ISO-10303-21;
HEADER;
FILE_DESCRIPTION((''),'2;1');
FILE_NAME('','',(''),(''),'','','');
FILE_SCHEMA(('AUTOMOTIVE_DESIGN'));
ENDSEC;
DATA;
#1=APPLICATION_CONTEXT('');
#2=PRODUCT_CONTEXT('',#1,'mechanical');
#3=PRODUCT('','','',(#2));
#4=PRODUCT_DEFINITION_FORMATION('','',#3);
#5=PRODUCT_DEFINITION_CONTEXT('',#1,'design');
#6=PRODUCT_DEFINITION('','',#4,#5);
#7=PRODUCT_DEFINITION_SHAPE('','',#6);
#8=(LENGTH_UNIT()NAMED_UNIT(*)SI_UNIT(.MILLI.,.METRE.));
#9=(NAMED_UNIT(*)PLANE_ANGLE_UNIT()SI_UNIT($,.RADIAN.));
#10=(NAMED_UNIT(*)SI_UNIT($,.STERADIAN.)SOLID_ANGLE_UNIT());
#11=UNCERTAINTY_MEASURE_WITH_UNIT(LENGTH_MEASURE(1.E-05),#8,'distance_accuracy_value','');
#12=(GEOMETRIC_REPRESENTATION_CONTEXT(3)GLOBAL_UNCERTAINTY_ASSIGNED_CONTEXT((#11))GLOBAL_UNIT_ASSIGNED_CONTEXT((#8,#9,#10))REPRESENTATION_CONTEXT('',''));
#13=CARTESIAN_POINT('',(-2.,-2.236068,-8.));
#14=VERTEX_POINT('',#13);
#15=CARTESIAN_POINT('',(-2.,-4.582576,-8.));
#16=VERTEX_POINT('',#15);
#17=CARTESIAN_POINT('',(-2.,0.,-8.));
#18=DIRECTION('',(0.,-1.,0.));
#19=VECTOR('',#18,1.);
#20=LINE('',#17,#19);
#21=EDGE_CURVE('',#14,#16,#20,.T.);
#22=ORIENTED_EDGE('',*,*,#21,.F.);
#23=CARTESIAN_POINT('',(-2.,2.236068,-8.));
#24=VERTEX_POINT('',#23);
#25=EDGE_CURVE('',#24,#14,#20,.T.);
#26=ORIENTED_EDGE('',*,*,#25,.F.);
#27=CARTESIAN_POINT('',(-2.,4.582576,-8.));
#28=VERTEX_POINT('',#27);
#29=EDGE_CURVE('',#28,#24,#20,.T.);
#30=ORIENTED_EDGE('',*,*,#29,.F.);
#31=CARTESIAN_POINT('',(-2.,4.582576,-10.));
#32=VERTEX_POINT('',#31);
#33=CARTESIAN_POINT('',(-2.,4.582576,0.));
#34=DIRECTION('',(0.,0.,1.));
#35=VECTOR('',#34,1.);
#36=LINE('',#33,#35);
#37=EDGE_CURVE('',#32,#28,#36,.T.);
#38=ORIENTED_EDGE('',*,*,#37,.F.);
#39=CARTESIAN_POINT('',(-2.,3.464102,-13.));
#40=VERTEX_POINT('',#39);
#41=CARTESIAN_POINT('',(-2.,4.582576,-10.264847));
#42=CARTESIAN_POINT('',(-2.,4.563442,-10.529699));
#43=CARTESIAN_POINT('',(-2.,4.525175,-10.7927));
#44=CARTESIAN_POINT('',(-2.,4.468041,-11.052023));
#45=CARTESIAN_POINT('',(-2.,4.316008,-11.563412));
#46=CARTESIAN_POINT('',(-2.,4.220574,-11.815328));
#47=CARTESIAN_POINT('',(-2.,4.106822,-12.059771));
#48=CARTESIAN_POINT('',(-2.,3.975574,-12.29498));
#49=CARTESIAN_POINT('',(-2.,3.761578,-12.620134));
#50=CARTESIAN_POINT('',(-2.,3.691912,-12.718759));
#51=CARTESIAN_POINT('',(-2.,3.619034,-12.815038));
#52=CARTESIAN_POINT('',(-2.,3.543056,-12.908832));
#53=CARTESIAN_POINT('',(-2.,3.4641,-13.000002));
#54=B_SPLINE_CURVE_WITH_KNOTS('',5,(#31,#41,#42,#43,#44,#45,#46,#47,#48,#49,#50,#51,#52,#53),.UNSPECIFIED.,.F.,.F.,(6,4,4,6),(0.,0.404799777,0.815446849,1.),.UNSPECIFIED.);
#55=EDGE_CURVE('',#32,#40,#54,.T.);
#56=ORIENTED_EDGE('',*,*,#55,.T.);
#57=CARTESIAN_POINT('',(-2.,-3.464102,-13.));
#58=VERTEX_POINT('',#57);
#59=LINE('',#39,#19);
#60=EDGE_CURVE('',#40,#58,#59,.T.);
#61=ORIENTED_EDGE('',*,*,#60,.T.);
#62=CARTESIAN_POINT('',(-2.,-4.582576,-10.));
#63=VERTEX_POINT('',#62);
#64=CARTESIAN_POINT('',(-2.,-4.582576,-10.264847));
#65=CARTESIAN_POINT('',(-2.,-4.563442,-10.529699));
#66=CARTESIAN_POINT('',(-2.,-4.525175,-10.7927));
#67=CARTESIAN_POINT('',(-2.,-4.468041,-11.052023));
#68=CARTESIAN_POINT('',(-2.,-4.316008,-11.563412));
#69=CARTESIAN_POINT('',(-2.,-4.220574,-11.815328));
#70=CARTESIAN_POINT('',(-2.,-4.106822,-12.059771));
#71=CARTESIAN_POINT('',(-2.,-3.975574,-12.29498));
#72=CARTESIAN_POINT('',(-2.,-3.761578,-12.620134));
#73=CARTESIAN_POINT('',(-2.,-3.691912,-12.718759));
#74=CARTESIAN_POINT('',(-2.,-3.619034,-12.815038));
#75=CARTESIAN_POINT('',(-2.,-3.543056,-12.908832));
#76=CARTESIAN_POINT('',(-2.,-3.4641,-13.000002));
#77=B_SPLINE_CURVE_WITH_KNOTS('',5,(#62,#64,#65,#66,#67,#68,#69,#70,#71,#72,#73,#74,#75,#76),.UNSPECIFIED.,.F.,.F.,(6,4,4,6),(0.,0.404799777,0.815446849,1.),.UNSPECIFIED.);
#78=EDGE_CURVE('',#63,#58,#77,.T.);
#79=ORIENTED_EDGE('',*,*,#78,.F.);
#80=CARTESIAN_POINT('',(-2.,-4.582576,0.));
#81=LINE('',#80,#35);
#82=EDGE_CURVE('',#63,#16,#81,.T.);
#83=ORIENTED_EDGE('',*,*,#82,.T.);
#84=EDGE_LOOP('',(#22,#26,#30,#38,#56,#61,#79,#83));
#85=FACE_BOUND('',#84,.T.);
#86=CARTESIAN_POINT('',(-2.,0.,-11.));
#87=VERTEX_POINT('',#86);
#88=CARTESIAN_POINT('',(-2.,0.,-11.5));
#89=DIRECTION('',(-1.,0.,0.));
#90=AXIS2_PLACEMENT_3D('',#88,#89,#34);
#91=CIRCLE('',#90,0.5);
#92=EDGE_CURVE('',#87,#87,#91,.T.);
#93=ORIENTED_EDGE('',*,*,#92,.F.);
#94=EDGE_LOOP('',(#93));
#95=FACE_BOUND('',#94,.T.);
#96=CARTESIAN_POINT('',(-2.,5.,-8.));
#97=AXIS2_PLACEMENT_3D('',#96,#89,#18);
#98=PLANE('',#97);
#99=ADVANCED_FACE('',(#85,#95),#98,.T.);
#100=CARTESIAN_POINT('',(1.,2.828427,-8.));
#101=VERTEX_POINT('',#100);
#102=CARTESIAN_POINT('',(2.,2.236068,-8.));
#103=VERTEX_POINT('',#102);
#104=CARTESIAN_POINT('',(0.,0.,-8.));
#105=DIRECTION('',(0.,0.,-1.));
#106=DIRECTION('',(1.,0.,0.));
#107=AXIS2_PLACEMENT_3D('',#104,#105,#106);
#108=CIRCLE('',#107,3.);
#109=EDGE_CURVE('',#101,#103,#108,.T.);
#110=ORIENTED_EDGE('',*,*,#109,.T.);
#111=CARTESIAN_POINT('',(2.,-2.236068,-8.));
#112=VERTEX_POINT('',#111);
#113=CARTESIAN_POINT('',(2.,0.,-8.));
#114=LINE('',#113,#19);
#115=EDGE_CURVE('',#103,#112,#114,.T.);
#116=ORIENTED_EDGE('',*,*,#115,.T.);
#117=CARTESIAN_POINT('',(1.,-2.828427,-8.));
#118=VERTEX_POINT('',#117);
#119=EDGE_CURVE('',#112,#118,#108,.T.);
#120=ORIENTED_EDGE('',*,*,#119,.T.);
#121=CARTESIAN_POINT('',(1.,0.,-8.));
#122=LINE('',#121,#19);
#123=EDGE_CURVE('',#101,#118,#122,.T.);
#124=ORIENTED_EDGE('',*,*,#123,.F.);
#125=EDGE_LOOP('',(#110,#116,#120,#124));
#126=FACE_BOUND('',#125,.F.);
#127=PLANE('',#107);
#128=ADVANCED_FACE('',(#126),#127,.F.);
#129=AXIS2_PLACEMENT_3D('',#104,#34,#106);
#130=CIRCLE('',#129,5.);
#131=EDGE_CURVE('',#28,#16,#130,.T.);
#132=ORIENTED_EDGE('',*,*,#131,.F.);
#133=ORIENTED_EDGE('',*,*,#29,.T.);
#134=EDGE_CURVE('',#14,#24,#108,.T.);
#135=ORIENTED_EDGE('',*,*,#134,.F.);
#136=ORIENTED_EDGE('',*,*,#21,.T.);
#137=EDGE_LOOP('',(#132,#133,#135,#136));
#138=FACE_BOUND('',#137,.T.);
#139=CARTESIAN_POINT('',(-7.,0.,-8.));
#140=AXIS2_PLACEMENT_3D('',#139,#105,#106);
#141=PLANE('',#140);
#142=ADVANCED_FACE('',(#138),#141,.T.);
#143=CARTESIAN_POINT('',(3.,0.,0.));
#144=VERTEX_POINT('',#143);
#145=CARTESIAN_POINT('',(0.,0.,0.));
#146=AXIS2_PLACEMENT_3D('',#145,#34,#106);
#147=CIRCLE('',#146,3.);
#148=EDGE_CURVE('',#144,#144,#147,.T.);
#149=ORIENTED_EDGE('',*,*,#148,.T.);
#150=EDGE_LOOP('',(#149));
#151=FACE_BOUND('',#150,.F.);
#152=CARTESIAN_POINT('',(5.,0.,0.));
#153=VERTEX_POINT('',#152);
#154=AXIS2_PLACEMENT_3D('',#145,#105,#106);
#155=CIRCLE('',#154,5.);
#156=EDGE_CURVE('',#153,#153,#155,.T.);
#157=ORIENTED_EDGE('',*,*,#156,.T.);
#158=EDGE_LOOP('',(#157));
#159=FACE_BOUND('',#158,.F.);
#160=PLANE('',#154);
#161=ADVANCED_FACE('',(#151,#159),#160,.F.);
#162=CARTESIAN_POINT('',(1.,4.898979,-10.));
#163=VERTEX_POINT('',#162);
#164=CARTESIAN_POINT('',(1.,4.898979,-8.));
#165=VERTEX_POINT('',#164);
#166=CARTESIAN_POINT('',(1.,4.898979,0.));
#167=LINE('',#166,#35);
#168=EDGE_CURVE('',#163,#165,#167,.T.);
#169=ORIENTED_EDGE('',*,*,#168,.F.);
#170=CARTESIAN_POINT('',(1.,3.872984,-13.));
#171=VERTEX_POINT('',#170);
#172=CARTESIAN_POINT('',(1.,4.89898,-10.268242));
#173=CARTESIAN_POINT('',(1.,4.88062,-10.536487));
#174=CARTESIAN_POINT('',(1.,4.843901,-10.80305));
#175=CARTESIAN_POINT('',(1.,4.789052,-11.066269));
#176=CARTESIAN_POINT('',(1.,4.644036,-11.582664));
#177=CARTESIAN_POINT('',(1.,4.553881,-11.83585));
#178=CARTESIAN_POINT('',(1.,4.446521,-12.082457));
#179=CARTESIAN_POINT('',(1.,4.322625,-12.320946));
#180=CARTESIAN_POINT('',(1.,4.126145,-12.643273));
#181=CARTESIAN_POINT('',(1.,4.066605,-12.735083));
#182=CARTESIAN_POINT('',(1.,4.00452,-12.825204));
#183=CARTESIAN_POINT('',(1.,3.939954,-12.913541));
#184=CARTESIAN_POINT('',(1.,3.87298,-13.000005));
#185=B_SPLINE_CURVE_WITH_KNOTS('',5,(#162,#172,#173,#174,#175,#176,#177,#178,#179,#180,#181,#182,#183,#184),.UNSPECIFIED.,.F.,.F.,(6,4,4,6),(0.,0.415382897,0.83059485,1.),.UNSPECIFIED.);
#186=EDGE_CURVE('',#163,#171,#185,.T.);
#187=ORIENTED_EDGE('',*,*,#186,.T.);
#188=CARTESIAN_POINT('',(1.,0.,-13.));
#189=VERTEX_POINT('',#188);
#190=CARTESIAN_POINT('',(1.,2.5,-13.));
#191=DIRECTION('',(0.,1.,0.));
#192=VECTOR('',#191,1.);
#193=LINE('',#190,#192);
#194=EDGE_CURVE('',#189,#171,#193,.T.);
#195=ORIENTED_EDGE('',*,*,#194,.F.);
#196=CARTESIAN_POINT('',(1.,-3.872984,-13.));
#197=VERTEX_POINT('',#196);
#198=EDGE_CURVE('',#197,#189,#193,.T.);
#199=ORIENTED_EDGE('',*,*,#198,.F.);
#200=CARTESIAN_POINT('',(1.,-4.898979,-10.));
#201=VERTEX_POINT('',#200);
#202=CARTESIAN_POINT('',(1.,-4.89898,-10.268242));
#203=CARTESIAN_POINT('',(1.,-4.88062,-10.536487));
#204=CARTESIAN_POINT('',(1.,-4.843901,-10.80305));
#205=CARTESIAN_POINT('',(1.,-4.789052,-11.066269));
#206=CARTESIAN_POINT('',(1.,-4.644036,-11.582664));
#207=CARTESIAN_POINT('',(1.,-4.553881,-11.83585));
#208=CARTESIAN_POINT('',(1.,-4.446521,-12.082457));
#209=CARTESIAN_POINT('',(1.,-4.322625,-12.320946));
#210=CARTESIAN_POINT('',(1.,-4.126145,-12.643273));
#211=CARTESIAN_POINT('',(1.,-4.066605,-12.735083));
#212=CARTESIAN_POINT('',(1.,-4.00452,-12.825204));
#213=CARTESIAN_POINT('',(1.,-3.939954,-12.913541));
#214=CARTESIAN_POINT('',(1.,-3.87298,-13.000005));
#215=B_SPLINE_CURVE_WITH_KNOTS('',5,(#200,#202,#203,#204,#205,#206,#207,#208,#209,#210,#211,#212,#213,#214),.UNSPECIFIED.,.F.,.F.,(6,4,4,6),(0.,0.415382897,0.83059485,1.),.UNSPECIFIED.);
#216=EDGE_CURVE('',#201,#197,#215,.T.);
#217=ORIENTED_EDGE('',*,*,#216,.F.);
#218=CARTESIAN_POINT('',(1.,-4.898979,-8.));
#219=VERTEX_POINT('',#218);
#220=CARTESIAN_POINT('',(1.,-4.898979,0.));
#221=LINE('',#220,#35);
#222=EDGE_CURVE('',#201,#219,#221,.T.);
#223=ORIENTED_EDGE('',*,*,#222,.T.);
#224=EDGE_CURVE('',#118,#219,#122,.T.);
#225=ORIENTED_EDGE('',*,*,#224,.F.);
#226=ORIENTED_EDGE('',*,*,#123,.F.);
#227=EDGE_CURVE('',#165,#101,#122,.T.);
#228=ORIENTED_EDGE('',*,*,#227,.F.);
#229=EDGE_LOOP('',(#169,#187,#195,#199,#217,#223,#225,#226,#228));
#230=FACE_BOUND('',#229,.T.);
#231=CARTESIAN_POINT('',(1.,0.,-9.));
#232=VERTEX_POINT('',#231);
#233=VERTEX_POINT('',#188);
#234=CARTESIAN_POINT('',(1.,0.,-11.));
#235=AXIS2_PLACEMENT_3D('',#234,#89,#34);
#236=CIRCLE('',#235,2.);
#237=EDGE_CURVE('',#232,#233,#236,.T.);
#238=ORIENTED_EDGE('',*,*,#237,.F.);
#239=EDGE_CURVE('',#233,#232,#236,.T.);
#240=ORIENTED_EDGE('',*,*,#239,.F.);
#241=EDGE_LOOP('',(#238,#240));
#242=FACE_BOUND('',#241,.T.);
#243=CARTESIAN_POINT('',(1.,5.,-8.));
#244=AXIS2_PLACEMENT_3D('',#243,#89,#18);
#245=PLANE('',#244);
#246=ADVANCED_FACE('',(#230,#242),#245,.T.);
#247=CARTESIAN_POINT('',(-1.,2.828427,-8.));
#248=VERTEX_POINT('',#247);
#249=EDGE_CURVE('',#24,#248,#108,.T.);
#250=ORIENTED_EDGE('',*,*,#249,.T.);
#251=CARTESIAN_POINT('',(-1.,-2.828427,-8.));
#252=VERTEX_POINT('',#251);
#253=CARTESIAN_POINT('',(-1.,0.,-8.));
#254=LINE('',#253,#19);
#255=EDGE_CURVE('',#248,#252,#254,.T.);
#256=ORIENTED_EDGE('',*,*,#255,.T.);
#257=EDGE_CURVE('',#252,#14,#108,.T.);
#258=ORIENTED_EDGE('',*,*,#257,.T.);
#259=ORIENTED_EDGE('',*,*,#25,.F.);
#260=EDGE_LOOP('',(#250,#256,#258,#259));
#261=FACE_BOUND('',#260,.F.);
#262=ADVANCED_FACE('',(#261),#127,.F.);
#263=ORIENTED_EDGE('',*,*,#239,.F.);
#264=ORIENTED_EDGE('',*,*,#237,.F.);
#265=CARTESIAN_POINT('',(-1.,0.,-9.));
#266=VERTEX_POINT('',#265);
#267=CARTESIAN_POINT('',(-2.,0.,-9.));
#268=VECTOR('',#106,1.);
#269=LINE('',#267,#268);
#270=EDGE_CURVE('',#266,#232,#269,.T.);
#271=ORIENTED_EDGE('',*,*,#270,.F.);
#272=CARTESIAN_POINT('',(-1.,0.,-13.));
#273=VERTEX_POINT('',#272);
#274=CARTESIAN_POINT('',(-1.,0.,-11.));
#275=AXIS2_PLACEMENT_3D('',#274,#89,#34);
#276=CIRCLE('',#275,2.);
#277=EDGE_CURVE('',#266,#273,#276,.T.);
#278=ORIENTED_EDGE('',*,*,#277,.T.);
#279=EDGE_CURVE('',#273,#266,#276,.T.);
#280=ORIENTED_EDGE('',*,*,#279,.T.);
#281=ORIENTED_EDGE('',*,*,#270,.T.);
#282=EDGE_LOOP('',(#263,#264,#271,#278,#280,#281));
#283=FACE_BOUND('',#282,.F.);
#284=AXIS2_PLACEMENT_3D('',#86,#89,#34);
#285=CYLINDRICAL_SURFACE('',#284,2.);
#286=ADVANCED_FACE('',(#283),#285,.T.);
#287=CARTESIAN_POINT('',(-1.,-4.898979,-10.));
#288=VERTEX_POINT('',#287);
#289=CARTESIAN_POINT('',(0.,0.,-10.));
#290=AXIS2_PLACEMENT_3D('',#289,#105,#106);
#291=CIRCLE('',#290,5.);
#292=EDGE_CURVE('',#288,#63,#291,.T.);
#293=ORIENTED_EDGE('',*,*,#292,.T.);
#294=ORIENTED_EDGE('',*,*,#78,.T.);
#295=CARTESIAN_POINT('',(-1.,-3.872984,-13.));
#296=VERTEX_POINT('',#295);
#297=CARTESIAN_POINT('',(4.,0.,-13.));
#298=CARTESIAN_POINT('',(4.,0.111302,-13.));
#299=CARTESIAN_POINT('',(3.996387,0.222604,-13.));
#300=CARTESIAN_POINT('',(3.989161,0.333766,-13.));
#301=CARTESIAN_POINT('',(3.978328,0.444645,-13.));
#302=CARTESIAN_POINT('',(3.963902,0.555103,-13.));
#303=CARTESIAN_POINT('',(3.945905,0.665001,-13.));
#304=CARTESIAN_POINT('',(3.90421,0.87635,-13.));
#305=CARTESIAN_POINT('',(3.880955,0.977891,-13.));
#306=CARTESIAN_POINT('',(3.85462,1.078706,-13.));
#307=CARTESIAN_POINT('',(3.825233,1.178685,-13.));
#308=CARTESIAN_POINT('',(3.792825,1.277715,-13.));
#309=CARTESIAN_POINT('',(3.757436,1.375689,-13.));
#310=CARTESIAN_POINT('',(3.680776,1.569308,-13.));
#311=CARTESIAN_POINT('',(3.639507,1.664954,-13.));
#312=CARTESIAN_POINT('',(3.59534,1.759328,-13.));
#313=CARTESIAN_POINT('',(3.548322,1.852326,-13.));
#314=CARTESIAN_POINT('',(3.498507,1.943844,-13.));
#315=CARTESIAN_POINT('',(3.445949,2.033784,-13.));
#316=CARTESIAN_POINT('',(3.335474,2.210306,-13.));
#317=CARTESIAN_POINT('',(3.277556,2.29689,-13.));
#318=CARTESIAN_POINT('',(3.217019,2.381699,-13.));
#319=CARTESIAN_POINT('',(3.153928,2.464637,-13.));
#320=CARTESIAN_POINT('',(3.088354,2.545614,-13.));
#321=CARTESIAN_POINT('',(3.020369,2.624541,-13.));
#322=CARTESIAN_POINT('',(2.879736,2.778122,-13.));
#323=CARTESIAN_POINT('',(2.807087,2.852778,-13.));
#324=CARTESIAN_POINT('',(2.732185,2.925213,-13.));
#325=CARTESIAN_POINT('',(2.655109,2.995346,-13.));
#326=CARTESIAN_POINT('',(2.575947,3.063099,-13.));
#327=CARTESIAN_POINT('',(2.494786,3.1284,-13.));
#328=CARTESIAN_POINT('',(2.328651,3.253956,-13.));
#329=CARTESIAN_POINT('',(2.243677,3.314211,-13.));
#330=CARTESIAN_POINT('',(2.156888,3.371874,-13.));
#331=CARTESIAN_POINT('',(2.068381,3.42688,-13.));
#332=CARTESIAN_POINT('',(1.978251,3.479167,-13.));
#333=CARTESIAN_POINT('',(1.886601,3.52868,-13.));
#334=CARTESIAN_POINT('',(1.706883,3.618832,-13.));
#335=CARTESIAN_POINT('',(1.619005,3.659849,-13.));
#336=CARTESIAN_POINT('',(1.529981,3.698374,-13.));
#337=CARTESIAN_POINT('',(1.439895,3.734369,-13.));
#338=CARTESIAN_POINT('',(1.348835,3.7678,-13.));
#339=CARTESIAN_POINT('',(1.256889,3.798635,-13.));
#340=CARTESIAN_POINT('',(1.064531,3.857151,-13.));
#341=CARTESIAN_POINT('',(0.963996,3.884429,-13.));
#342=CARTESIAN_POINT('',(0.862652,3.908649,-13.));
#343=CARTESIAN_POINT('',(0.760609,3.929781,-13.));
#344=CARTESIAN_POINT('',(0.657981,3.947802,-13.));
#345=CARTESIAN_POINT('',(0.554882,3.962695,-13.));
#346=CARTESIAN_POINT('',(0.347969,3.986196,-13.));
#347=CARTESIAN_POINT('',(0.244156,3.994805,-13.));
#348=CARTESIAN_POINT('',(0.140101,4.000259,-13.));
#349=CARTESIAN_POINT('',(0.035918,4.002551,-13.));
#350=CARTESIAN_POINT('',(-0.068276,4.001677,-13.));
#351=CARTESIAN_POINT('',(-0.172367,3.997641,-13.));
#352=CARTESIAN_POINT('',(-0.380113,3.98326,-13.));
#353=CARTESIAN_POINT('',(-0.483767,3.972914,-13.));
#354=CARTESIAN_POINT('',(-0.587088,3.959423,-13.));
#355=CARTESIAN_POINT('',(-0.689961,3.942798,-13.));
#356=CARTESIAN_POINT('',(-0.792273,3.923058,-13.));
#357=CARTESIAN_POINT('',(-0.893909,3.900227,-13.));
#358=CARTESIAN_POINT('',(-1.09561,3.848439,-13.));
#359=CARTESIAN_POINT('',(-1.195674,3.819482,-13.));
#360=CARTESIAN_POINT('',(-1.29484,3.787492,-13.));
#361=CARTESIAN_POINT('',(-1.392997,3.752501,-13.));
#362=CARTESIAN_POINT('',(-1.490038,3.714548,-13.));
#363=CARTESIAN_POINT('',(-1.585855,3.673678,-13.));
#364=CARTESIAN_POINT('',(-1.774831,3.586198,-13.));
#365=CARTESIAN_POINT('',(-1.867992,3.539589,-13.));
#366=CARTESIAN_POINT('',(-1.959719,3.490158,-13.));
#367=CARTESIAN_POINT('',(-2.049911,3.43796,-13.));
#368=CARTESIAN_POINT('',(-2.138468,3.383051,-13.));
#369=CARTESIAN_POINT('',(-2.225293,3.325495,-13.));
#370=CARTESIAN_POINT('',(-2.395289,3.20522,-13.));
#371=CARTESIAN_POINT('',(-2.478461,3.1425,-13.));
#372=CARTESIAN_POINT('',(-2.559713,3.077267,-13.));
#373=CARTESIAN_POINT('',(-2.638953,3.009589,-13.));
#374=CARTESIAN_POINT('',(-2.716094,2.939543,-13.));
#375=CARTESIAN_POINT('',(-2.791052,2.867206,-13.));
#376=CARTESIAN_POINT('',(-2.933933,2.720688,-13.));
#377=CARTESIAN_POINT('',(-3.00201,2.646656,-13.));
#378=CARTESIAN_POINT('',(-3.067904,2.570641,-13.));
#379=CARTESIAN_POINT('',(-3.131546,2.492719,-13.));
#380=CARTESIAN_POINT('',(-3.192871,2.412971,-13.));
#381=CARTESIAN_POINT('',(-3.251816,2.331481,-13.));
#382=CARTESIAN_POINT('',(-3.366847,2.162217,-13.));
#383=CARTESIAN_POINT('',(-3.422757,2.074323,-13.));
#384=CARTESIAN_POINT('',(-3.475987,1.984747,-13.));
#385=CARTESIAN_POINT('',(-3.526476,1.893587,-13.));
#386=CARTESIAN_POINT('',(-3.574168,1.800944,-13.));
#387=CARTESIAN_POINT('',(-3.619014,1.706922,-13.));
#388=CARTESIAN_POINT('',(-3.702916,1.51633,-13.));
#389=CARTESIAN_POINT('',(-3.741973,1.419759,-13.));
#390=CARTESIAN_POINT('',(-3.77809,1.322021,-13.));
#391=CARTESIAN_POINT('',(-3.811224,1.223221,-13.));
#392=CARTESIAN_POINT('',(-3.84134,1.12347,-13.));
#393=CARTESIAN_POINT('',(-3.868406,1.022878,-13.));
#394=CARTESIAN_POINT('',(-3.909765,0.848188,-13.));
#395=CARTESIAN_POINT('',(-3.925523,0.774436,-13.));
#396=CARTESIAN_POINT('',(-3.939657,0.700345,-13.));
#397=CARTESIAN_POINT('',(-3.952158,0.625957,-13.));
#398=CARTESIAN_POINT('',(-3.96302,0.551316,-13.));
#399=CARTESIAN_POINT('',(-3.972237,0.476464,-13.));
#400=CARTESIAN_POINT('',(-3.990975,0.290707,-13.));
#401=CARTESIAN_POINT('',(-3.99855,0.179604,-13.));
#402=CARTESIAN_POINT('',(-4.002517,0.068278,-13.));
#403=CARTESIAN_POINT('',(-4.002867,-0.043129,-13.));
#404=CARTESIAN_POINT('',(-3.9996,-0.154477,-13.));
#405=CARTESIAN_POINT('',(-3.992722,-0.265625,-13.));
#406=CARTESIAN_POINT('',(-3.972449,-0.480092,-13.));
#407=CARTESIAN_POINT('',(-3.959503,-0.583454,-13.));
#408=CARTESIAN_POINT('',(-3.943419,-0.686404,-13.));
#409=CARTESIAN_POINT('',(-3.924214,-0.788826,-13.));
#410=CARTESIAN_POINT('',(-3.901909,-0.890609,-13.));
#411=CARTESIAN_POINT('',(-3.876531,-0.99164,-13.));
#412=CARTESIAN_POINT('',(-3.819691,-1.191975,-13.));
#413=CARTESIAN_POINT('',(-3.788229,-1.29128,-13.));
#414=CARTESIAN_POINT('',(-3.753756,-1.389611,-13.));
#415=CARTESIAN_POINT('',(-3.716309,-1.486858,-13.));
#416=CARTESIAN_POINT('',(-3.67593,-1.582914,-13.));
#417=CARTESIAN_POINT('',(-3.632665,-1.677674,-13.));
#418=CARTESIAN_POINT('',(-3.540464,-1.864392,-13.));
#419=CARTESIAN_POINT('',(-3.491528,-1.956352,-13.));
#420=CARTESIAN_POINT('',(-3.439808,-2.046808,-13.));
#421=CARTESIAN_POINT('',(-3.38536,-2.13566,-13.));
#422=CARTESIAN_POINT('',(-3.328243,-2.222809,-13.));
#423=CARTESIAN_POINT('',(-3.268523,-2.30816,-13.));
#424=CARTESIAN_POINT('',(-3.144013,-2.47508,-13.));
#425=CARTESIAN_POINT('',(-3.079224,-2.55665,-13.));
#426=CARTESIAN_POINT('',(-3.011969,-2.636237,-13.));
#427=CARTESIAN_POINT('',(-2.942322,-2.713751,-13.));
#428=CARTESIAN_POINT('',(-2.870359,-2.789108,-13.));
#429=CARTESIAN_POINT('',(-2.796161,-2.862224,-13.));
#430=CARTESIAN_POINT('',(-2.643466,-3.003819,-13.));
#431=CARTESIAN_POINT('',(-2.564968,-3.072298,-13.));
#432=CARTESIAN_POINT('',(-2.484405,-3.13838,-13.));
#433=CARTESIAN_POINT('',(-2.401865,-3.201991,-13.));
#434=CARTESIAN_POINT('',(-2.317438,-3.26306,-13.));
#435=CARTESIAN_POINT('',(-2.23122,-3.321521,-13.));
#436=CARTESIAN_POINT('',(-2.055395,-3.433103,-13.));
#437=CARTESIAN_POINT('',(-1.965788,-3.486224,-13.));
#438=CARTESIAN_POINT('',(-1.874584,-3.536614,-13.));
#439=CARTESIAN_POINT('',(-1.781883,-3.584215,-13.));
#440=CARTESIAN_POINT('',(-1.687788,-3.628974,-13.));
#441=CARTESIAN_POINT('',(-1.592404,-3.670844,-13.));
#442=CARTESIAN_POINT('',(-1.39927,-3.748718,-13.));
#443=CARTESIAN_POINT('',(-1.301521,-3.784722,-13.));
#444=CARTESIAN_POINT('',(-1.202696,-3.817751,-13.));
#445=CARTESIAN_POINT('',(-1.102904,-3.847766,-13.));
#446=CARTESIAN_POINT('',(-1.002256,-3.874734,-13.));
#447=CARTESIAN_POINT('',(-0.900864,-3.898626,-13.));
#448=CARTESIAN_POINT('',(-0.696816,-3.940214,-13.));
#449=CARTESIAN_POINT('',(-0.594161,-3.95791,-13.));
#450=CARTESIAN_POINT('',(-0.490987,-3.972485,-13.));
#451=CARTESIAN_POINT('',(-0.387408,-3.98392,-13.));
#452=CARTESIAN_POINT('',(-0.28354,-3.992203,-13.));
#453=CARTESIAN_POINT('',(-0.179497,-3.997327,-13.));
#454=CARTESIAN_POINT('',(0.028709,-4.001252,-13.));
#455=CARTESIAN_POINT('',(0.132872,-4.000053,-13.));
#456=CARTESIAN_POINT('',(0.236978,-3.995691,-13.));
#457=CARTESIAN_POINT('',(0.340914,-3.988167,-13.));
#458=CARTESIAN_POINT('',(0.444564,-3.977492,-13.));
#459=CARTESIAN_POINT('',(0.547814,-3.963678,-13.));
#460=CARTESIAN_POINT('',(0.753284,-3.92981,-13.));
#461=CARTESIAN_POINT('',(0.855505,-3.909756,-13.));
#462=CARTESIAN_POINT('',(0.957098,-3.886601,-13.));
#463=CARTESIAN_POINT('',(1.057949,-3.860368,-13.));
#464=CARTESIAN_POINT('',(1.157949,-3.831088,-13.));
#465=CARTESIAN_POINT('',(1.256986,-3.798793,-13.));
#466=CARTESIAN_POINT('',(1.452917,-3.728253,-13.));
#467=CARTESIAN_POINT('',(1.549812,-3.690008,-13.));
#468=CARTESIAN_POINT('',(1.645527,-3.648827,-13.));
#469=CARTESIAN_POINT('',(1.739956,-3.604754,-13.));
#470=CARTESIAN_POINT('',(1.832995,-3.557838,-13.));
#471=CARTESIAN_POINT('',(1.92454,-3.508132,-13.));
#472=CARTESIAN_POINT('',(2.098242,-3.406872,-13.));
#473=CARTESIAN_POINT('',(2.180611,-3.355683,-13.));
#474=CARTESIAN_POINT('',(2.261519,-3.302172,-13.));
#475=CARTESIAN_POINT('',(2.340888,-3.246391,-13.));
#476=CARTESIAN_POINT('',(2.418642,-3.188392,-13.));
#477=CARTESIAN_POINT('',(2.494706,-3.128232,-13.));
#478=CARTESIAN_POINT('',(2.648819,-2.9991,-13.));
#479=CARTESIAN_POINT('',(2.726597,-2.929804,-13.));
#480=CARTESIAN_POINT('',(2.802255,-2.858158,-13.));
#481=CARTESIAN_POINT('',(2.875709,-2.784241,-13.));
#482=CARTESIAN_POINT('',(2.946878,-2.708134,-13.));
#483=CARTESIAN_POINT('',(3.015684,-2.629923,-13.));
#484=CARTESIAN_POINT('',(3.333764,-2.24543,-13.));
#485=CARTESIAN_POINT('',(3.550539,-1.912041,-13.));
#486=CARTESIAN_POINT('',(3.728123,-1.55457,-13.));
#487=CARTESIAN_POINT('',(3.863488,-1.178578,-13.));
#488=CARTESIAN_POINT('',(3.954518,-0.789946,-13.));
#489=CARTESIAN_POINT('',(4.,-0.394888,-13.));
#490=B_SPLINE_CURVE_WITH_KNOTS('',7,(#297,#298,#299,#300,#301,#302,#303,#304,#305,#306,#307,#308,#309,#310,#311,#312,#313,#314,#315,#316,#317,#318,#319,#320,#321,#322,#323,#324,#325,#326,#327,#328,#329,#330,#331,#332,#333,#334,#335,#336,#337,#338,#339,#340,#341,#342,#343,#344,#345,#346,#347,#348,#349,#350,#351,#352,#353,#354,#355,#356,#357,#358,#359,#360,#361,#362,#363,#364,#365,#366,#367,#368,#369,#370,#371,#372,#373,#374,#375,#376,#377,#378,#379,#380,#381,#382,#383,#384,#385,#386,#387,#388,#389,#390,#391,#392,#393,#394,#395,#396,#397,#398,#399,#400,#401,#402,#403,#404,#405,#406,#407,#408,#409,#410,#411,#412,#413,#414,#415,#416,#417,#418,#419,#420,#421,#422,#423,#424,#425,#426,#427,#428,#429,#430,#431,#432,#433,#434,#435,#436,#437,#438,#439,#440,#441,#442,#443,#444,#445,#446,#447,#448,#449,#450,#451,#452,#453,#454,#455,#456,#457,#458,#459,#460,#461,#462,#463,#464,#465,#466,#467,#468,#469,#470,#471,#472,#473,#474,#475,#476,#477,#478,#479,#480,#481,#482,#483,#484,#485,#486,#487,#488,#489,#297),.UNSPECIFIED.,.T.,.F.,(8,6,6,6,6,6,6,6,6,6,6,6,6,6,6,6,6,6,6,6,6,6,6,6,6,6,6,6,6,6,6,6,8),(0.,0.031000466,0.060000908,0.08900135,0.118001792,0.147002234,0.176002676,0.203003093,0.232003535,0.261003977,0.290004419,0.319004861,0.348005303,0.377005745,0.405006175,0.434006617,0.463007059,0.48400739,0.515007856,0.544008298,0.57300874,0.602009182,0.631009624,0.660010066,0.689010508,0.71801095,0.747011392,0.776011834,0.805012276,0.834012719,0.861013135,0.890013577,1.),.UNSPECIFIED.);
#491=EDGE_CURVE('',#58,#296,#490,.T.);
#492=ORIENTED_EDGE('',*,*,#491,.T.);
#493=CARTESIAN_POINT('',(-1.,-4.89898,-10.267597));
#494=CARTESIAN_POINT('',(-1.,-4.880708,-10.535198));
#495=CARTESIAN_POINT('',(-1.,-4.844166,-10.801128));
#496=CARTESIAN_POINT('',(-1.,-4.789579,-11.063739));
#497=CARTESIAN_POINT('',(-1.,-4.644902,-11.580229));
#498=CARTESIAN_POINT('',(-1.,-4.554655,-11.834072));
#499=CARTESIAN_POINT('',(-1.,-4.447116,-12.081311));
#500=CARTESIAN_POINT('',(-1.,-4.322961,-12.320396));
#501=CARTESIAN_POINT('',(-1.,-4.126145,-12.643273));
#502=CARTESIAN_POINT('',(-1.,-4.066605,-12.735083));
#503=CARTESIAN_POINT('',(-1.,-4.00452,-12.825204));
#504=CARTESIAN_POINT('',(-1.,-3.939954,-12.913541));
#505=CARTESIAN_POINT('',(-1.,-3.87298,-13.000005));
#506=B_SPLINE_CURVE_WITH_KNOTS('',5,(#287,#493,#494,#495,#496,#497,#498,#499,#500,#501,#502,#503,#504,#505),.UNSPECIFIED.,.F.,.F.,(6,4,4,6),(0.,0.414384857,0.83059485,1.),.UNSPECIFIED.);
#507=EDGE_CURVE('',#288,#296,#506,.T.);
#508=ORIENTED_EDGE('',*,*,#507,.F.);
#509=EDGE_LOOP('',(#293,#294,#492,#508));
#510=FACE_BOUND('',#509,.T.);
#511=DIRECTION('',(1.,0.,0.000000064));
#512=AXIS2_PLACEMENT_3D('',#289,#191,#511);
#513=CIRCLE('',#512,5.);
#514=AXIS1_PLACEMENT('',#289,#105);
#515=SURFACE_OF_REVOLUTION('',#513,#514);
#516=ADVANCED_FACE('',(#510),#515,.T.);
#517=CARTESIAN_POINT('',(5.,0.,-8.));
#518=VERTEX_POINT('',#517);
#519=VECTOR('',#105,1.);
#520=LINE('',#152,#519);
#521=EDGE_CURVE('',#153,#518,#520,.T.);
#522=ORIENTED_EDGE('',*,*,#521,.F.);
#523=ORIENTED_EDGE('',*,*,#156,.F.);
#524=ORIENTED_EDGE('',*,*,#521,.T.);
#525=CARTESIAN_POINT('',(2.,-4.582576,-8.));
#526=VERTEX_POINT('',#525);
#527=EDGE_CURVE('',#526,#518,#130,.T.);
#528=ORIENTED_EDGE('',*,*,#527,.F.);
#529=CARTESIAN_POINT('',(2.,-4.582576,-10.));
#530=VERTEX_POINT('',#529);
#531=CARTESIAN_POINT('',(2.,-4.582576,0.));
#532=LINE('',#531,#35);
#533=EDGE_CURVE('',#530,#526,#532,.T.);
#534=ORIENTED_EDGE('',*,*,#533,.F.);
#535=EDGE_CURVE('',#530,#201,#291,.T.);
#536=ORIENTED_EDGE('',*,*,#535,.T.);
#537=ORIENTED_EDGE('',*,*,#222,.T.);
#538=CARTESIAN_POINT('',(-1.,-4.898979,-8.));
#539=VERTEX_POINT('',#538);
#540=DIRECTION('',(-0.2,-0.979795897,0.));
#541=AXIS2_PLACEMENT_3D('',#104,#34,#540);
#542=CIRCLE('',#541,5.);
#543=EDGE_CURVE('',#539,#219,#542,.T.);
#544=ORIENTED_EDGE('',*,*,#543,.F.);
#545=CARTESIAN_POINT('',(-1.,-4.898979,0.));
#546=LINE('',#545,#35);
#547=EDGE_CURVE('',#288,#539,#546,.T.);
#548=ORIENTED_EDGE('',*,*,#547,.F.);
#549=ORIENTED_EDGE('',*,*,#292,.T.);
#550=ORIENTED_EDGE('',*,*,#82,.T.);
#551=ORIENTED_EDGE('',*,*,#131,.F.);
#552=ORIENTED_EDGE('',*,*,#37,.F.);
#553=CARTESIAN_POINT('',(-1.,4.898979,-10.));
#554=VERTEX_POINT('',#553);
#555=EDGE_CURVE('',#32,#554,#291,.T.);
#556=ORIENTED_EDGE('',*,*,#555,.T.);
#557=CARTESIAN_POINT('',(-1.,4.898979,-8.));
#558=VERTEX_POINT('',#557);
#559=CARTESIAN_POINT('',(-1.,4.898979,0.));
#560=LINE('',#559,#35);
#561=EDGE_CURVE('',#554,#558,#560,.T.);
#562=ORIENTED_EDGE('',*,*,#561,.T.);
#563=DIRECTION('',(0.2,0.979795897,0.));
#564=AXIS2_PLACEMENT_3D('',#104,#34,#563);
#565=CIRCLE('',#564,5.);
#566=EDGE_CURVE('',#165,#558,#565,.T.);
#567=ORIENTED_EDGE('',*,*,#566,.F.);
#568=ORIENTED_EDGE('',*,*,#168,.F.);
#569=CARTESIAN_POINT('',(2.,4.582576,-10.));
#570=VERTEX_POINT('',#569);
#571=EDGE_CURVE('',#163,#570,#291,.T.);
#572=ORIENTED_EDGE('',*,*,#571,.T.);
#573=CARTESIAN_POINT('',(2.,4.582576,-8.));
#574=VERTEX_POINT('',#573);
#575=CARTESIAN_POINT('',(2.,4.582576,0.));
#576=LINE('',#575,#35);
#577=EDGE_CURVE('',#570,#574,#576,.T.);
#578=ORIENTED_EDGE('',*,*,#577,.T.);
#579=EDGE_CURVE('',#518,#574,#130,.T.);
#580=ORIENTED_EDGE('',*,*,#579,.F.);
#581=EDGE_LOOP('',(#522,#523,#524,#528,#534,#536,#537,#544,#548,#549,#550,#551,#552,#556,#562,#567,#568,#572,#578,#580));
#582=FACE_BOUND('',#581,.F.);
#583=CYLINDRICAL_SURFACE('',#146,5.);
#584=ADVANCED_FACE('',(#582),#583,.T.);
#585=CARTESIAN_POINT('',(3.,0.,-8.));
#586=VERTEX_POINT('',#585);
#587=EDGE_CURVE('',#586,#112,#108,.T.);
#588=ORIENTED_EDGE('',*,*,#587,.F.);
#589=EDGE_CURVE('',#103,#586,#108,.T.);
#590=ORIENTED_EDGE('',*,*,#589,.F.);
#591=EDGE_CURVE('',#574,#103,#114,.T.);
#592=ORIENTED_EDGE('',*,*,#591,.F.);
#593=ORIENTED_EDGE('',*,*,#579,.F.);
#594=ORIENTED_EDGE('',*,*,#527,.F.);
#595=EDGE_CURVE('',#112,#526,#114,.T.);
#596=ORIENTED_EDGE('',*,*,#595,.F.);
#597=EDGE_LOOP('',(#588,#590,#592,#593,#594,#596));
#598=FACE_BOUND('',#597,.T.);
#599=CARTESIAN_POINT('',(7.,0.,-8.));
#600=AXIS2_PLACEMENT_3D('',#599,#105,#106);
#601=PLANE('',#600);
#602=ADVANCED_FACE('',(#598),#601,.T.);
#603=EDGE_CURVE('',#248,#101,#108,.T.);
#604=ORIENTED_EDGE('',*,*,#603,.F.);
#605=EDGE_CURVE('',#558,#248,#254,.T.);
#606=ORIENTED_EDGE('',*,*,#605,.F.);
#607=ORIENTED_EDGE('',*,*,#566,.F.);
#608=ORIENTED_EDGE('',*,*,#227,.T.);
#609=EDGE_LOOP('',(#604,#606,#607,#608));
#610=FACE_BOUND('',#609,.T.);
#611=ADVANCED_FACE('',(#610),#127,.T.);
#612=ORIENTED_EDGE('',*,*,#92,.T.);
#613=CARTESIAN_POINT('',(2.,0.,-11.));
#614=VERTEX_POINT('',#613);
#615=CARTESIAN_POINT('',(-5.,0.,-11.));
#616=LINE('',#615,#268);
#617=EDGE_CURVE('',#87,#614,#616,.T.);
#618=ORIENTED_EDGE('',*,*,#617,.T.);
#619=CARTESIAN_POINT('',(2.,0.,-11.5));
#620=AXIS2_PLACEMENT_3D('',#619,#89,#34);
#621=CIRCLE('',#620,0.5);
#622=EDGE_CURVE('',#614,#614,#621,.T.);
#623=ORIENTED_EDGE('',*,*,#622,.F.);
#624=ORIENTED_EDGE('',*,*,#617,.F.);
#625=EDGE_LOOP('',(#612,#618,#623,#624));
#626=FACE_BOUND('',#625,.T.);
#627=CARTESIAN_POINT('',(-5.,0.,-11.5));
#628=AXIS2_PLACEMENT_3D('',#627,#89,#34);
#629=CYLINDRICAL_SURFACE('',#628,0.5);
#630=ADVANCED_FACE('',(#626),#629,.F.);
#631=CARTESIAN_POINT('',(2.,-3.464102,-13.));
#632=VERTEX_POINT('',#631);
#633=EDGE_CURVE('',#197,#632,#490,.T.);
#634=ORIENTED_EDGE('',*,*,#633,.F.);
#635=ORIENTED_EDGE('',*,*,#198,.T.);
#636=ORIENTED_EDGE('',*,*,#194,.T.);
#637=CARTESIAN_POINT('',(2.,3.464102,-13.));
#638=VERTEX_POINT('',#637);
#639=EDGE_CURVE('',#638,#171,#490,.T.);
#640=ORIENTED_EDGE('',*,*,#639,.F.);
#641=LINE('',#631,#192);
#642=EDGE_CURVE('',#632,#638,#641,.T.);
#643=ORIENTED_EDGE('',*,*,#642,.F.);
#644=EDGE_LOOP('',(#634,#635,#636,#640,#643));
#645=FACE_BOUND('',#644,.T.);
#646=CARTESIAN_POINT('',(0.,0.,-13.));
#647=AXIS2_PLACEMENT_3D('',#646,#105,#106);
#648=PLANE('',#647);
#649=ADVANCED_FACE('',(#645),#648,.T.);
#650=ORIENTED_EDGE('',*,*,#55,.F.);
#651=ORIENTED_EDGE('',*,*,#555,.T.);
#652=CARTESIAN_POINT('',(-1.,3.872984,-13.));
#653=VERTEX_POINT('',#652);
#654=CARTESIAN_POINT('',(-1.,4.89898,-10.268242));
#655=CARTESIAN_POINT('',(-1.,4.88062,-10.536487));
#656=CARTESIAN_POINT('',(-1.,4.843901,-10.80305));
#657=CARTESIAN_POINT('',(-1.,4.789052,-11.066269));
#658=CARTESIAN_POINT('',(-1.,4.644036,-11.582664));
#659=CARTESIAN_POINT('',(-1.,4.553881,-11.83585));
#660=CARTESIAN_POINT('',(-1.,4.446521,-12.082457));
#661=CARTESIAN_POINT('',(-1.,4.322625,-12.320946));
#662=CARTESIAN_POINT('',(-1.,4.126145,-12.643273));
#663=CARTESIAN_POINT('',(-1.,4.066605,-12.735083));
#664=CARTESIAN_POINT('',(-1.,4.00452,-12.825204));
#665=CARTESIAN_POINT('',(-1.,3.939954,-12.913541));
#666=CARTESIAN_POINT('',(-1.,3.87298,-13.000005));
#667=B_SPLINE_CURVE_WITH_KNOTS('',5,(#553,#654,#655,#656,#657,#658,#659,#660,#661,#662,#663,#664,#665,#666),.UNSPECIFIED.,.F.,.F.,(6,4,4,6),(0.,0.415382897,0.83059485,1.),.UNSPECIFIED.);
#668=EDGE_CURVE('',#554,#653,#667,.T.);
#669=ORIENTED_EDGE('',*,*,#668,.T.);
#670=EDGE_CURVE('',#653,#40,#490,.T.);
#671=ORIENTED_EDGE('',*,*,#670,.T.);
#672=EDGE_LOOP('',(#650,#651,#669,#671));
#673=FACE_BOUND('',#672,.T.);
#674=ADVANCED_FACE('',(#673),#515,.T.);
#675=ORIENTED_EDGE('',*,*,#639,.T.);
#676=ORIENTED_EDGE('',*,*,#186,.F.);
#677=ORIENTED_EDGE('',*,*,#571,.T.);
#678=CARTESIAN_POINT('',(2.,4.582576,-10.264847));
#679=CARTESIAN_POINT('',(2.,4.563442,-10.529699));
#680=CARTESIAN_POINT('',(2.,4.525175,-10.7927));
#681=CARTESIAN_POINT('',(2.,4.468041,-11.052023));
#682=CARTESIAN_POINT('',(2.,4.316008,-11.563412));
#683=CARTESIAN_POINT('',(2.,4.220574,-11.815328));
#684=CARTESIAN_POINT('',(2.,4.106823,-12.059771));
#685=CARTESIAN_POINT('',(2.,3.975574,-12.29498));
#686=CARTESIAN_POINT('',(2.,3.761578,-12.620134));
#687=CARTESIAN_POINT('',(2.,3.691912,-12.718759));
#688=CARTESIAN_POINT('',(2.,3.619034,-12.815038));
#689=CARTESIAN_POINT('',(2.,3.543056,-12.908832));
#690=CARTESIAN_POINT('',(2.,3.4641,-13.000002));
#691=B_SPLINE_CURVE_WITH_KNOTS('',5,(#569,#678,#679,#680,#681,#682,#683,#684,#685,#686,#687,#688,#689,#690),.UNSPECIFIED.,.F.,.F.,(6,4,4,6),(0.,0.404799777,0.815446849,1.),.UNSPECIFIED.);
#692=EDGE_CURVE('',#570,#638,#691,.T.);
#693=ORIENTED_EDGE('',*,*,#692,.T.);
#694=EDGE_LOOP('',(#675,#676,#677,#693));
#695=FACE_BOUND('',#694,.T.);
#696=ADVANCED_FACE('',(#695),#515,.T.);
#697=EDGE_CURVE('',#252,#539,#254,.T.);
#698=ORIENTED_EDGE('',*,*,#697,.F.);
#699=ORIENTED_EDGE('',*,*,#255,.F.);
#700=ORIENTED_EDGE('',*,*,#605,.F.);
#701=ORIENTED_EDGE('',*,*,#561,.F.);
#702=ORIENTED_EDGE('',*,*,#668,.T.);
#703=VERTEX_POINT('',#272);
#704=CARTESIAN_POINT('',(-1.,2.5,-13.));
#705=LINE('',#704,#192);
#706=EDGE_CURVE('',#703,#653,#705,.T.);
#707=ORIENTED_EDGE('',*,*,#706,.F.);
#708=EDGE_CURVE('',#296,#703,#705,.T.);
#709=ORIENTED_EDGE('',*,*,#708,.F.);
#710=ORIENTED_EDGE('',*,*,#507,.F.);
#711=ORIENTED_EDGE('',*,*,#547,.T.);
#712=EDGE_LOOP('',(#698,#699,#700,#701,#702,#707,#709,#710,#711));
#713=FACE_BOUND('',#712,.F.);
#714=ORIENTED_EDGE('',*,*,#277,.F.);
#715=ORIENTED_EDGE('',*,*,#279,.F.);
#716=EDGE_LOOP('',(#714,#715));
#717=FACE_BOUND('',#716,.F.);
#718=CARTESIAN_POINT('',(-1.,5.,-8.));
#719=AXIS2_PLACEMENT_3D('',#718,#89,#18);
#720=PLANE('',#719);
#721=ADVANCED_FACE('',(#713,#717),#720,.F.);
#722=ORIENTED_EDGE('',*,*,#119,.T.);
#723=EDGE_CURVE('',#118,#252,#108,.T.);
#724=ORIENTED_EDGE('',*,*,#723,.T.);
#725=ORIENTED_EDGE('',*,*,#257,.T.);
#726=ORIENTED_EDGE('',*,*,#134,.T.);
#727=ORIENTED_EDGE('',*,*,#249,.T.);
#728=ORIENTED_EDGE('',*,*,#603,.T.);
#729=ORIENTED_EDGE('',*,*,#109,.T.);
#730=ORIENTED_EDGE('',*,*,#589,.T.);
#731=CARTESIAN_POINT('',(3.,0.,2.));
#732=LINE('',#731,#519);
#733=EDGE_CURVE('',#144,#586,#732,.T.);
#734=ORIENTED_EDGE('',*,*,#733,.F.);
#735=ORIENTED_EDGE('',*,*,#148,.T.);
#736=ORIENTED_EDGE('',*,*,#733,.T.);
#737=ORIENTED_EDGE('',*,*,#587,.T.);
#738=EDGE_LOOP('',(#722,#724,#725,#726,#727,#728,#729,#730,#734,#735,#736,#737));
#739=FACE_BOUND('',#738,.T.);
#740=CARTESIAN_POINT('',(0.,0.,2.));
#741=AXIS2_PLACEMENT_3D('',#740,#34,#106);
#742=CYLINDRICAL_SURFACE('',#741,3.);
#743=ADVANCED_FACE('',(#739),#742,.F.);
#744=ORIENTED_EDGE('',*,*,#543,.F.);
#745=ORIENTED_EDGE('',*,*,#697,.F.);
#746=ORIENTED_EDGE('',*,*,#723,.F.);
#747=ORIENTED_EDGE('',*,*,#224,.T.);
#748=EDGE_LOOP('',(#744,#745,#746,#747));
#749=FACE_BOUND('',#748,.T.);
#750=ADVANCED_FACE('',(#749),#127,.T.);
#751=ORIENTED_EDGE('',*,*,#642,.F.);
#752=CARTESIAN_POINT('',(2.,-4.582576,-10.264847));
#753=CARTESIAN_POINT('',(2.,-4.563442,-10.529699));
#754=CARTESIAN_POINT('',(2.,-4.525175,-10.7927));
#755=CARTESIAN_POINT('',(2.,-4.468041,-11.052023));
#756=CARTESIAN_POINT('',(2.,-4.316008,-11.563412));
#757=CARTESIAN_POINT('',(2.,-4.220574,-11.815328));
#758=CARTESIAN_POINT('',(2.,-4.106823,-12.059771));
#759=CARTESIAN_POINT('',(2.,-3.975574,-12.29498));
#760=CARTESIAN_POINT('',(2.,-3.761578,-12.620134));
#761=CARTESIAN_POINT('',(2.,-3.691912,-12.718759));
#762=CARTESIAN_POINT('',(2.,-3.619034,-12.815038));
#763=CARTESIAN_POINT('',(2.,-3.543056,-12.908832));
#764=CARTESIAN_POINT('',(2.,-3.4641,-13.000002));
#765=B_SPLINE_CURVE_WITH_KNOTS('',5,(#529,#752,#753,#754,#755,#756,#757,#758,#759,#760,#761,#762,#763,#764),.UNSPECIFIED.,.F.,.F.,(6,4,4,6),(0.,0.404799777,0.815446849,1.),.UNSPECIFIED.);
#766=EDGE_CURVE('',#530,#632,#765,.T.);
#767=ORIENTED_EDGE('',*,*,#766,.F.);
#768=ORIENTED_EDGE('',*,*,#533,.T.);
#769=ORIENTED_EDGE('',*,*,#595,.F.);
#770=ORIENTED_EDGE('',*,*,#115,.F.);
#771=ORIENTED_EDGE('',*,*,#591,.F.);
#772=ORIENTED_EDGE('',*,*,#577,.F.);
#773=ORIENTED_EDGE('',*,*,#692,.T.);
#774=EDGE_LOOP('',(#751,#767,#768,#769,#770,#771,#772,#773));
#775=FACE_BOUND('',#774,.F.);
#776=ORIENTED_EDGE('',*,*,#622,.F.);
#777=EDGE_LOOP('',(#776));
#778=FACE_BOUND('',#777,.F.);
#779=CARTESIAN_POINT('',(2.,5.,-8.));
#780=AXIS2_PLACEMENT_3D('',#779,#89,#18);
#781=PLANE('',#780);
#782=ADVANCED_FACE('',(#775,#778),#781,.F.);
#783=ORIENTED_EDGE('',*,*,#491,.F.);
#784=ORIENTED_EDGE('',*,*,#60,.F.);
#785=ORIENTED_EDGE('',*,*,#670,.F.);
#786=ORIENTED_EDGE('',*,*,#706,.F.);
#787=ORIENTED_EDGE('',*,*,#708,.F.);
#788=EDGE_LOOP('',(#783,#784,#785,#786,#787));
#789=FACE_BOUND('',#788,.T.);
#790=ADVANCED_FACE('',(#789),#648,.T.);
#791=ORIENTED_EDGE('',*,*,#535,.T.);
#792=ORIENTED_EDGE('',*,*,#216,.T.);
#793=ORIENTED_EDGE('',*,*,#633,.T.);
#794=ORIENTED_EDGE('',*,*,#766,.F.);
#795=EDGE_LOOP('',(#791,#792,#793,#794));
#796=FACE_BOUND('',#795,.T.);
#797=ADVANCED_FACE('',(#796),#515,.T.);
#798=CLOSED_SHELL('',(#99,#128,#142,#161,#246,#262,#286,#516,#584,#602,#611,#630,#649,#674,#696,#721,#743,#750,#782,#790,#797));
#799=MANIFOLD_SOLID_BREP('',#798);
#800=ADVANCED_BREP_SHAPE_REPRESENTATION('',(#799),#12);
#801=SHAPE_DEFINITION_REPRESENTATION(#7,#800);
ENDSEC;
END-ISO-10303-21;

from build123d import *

# Parameters (mm, degrees)
CYLINDER026_R          = 0.5
CYLINDER026_DEPTH      = 10
CYLINDER023_R          = 2
CYLINDER023_DEPTH      = 4
CYLINDER027_R          = 3
CYLINDER027_DEPTH      = 10
BOX010_W               = 10
BOX010_H               = 10
BOX010_DEPTH           = 10
BOX008_W               = 2
BOX008_H               = 10
BOX008_DEPTH           = 10
BOX009_W               = 10
BOX009_H               = 10
BOX009_DEPTH           = 10
CYLINDER025_R          = 5
CYLINDER025_DEPTH      = 10
CYLINDER024_R          = 5
CYLINDER024_DEPTH      = 10
CUT021_PLACEMENT_ANGLE = 180


with BuildPart() as cylinder026:
    # Cylinder026 → Cylinder026 (new body)
    with BuildSketch(Plane(origin=(-5, 0, -7), x_dir=(0, 0, -1), z_dir=(1, 0, 0))):
        Circle(CYLINDER026_R)
    extrude(amount=CYLINDER026_DEPTH)


with BuildPart() as cylinder023:
    # Cylinder023 → Cylinder023 (new body)
    with BuildSketch(Plane(origin=(-2, -50, 1), x_dir=(0, 0, -1), z_dir=(1, 0, 0))):
        Circle(CYLINDER023_R)
    extrude(amount=CYLINDER023_DEPTH)


with BuildPart() as cylinder027:
    # Cylinder027 → Cylinder027 (new body)
    with BuildSketch(Plane(origin=(0, -50, -12), x_dir=(1, 0, 0), z_dir=(0, 0, 1))):
        Circle(CYLINDER027_R)
    extrude(amount=CYLINDER027_DEPTH)


with BuildPart() as cube010:
    # Box010 → Box010 (new body)
    with BuildSketch(Plane(origin=(-12, -55, -2), x_dir=(1, 0, 0), z_dir=(0, 0, 1))):
        with Locations((5, 5)):
            Rectangle(BOX010_W, BOX010_H)
    extrude(amount=BOX010_DEPTH)


with BuildPart() as cube008:
    # Box008 → Box008 (new body)
    with BuildSketch(Plane(origin=(-1, -55, -2), x_dir=(1, 0, 0), z_dir=(0, 0, 1))):
        with Locations((1, 5)):
            Rectangle(BOX008_W, BOX008_H)
    extrude(amount=BOX008_DEPTH)


with BuildPart() as cube009:
    # Box009 → Box009 (new body)
    with BuildSketch(Plane(origin=(2, -55, -2), x_dir=(1, 0, 0), z_dir=(0, 0, 1))):
        with Locations((5, 5)):
            Rectangle(BOX009_W, BOX009_H)
    extrude(amount=BOX009_DEPTH)


with BuildPart() as cylinder025:
    # Cylinder025 → Cylinder025 (new body)
    with BuildSketch(Plane(origin=(0, -50, -10), x_dir=(1, 0, 0), z_dir=(0, 0, 1))):
        Circle(CYLINDER025_R)
    extrude(amount=CYLINDER025_DEPTH)


with BuildPart() as sphere006:
    # Sphere006 → Sphere006 (revolve)
    with BuildSketch(Plane.XZ.offset(50)):
        with BuildLine():
            ThreePointArc((5, 0), (3.535534, 3.535534), (0, 5))
            Line((0, 5), (0, 0))
            Line((0, 0), (5, 0))
        make_face()
    revolve(axis=Axis((0, -50, 0), (0, 0, 1)))


with BuildPart() as cut021:
    # Cylinder024 → Cylinder024 (new body)
    with BuildSketch(Plane(origin=(0, -50, -7), x_dir=(1, 0, 0), z_dir=(0, 0, 1))):
        Circle(CYLINDER024_R)
    extrude(amount=CYLINDER024_DEPTH)

    # Common004: intersect Sphere006
    add(sphere006.part, mode=Mode.INTERSECT)

    # Fusion005006: union Cylinder025
    add(cylinder025.part)

    # Cut020: cut Cube009
    add(cube009.part, mode=Mode.SUBTRACT)

    # Cut022: cut Cube008
    add(cube008.part, mode=Mode.SUBTRACT)

    # Cut023: cut Cube010
    add(cube010.part, mode=Mode.SUBTRACT)

    # Cut019: cut Cylinder027
    add(cylinder027.part, mode=Mode.SUBTRACT)

    # Fusion005005: union Cylinder023
    add(cylinder023.part)


with BuildPart() as cut021_1:
    # Fusion005007 placement: moved
    add(cut021.part.moved(Location((0, 50, -8.5))))

    # Cut021: cut Cylinder026
    add(cylinder026.part, mode=Mode.SUBTRACT)


with BuildPart() as cut021_2:
    # Cut021 placement: moved
    add(cut021_1.part.moved(Location((0, 0, -18.5))).rotate(Axis((0, 0, -18.5), (1, 0, 0)), CUT021_PLACEMENT_ANGLE))


solid = cut021_2.part
